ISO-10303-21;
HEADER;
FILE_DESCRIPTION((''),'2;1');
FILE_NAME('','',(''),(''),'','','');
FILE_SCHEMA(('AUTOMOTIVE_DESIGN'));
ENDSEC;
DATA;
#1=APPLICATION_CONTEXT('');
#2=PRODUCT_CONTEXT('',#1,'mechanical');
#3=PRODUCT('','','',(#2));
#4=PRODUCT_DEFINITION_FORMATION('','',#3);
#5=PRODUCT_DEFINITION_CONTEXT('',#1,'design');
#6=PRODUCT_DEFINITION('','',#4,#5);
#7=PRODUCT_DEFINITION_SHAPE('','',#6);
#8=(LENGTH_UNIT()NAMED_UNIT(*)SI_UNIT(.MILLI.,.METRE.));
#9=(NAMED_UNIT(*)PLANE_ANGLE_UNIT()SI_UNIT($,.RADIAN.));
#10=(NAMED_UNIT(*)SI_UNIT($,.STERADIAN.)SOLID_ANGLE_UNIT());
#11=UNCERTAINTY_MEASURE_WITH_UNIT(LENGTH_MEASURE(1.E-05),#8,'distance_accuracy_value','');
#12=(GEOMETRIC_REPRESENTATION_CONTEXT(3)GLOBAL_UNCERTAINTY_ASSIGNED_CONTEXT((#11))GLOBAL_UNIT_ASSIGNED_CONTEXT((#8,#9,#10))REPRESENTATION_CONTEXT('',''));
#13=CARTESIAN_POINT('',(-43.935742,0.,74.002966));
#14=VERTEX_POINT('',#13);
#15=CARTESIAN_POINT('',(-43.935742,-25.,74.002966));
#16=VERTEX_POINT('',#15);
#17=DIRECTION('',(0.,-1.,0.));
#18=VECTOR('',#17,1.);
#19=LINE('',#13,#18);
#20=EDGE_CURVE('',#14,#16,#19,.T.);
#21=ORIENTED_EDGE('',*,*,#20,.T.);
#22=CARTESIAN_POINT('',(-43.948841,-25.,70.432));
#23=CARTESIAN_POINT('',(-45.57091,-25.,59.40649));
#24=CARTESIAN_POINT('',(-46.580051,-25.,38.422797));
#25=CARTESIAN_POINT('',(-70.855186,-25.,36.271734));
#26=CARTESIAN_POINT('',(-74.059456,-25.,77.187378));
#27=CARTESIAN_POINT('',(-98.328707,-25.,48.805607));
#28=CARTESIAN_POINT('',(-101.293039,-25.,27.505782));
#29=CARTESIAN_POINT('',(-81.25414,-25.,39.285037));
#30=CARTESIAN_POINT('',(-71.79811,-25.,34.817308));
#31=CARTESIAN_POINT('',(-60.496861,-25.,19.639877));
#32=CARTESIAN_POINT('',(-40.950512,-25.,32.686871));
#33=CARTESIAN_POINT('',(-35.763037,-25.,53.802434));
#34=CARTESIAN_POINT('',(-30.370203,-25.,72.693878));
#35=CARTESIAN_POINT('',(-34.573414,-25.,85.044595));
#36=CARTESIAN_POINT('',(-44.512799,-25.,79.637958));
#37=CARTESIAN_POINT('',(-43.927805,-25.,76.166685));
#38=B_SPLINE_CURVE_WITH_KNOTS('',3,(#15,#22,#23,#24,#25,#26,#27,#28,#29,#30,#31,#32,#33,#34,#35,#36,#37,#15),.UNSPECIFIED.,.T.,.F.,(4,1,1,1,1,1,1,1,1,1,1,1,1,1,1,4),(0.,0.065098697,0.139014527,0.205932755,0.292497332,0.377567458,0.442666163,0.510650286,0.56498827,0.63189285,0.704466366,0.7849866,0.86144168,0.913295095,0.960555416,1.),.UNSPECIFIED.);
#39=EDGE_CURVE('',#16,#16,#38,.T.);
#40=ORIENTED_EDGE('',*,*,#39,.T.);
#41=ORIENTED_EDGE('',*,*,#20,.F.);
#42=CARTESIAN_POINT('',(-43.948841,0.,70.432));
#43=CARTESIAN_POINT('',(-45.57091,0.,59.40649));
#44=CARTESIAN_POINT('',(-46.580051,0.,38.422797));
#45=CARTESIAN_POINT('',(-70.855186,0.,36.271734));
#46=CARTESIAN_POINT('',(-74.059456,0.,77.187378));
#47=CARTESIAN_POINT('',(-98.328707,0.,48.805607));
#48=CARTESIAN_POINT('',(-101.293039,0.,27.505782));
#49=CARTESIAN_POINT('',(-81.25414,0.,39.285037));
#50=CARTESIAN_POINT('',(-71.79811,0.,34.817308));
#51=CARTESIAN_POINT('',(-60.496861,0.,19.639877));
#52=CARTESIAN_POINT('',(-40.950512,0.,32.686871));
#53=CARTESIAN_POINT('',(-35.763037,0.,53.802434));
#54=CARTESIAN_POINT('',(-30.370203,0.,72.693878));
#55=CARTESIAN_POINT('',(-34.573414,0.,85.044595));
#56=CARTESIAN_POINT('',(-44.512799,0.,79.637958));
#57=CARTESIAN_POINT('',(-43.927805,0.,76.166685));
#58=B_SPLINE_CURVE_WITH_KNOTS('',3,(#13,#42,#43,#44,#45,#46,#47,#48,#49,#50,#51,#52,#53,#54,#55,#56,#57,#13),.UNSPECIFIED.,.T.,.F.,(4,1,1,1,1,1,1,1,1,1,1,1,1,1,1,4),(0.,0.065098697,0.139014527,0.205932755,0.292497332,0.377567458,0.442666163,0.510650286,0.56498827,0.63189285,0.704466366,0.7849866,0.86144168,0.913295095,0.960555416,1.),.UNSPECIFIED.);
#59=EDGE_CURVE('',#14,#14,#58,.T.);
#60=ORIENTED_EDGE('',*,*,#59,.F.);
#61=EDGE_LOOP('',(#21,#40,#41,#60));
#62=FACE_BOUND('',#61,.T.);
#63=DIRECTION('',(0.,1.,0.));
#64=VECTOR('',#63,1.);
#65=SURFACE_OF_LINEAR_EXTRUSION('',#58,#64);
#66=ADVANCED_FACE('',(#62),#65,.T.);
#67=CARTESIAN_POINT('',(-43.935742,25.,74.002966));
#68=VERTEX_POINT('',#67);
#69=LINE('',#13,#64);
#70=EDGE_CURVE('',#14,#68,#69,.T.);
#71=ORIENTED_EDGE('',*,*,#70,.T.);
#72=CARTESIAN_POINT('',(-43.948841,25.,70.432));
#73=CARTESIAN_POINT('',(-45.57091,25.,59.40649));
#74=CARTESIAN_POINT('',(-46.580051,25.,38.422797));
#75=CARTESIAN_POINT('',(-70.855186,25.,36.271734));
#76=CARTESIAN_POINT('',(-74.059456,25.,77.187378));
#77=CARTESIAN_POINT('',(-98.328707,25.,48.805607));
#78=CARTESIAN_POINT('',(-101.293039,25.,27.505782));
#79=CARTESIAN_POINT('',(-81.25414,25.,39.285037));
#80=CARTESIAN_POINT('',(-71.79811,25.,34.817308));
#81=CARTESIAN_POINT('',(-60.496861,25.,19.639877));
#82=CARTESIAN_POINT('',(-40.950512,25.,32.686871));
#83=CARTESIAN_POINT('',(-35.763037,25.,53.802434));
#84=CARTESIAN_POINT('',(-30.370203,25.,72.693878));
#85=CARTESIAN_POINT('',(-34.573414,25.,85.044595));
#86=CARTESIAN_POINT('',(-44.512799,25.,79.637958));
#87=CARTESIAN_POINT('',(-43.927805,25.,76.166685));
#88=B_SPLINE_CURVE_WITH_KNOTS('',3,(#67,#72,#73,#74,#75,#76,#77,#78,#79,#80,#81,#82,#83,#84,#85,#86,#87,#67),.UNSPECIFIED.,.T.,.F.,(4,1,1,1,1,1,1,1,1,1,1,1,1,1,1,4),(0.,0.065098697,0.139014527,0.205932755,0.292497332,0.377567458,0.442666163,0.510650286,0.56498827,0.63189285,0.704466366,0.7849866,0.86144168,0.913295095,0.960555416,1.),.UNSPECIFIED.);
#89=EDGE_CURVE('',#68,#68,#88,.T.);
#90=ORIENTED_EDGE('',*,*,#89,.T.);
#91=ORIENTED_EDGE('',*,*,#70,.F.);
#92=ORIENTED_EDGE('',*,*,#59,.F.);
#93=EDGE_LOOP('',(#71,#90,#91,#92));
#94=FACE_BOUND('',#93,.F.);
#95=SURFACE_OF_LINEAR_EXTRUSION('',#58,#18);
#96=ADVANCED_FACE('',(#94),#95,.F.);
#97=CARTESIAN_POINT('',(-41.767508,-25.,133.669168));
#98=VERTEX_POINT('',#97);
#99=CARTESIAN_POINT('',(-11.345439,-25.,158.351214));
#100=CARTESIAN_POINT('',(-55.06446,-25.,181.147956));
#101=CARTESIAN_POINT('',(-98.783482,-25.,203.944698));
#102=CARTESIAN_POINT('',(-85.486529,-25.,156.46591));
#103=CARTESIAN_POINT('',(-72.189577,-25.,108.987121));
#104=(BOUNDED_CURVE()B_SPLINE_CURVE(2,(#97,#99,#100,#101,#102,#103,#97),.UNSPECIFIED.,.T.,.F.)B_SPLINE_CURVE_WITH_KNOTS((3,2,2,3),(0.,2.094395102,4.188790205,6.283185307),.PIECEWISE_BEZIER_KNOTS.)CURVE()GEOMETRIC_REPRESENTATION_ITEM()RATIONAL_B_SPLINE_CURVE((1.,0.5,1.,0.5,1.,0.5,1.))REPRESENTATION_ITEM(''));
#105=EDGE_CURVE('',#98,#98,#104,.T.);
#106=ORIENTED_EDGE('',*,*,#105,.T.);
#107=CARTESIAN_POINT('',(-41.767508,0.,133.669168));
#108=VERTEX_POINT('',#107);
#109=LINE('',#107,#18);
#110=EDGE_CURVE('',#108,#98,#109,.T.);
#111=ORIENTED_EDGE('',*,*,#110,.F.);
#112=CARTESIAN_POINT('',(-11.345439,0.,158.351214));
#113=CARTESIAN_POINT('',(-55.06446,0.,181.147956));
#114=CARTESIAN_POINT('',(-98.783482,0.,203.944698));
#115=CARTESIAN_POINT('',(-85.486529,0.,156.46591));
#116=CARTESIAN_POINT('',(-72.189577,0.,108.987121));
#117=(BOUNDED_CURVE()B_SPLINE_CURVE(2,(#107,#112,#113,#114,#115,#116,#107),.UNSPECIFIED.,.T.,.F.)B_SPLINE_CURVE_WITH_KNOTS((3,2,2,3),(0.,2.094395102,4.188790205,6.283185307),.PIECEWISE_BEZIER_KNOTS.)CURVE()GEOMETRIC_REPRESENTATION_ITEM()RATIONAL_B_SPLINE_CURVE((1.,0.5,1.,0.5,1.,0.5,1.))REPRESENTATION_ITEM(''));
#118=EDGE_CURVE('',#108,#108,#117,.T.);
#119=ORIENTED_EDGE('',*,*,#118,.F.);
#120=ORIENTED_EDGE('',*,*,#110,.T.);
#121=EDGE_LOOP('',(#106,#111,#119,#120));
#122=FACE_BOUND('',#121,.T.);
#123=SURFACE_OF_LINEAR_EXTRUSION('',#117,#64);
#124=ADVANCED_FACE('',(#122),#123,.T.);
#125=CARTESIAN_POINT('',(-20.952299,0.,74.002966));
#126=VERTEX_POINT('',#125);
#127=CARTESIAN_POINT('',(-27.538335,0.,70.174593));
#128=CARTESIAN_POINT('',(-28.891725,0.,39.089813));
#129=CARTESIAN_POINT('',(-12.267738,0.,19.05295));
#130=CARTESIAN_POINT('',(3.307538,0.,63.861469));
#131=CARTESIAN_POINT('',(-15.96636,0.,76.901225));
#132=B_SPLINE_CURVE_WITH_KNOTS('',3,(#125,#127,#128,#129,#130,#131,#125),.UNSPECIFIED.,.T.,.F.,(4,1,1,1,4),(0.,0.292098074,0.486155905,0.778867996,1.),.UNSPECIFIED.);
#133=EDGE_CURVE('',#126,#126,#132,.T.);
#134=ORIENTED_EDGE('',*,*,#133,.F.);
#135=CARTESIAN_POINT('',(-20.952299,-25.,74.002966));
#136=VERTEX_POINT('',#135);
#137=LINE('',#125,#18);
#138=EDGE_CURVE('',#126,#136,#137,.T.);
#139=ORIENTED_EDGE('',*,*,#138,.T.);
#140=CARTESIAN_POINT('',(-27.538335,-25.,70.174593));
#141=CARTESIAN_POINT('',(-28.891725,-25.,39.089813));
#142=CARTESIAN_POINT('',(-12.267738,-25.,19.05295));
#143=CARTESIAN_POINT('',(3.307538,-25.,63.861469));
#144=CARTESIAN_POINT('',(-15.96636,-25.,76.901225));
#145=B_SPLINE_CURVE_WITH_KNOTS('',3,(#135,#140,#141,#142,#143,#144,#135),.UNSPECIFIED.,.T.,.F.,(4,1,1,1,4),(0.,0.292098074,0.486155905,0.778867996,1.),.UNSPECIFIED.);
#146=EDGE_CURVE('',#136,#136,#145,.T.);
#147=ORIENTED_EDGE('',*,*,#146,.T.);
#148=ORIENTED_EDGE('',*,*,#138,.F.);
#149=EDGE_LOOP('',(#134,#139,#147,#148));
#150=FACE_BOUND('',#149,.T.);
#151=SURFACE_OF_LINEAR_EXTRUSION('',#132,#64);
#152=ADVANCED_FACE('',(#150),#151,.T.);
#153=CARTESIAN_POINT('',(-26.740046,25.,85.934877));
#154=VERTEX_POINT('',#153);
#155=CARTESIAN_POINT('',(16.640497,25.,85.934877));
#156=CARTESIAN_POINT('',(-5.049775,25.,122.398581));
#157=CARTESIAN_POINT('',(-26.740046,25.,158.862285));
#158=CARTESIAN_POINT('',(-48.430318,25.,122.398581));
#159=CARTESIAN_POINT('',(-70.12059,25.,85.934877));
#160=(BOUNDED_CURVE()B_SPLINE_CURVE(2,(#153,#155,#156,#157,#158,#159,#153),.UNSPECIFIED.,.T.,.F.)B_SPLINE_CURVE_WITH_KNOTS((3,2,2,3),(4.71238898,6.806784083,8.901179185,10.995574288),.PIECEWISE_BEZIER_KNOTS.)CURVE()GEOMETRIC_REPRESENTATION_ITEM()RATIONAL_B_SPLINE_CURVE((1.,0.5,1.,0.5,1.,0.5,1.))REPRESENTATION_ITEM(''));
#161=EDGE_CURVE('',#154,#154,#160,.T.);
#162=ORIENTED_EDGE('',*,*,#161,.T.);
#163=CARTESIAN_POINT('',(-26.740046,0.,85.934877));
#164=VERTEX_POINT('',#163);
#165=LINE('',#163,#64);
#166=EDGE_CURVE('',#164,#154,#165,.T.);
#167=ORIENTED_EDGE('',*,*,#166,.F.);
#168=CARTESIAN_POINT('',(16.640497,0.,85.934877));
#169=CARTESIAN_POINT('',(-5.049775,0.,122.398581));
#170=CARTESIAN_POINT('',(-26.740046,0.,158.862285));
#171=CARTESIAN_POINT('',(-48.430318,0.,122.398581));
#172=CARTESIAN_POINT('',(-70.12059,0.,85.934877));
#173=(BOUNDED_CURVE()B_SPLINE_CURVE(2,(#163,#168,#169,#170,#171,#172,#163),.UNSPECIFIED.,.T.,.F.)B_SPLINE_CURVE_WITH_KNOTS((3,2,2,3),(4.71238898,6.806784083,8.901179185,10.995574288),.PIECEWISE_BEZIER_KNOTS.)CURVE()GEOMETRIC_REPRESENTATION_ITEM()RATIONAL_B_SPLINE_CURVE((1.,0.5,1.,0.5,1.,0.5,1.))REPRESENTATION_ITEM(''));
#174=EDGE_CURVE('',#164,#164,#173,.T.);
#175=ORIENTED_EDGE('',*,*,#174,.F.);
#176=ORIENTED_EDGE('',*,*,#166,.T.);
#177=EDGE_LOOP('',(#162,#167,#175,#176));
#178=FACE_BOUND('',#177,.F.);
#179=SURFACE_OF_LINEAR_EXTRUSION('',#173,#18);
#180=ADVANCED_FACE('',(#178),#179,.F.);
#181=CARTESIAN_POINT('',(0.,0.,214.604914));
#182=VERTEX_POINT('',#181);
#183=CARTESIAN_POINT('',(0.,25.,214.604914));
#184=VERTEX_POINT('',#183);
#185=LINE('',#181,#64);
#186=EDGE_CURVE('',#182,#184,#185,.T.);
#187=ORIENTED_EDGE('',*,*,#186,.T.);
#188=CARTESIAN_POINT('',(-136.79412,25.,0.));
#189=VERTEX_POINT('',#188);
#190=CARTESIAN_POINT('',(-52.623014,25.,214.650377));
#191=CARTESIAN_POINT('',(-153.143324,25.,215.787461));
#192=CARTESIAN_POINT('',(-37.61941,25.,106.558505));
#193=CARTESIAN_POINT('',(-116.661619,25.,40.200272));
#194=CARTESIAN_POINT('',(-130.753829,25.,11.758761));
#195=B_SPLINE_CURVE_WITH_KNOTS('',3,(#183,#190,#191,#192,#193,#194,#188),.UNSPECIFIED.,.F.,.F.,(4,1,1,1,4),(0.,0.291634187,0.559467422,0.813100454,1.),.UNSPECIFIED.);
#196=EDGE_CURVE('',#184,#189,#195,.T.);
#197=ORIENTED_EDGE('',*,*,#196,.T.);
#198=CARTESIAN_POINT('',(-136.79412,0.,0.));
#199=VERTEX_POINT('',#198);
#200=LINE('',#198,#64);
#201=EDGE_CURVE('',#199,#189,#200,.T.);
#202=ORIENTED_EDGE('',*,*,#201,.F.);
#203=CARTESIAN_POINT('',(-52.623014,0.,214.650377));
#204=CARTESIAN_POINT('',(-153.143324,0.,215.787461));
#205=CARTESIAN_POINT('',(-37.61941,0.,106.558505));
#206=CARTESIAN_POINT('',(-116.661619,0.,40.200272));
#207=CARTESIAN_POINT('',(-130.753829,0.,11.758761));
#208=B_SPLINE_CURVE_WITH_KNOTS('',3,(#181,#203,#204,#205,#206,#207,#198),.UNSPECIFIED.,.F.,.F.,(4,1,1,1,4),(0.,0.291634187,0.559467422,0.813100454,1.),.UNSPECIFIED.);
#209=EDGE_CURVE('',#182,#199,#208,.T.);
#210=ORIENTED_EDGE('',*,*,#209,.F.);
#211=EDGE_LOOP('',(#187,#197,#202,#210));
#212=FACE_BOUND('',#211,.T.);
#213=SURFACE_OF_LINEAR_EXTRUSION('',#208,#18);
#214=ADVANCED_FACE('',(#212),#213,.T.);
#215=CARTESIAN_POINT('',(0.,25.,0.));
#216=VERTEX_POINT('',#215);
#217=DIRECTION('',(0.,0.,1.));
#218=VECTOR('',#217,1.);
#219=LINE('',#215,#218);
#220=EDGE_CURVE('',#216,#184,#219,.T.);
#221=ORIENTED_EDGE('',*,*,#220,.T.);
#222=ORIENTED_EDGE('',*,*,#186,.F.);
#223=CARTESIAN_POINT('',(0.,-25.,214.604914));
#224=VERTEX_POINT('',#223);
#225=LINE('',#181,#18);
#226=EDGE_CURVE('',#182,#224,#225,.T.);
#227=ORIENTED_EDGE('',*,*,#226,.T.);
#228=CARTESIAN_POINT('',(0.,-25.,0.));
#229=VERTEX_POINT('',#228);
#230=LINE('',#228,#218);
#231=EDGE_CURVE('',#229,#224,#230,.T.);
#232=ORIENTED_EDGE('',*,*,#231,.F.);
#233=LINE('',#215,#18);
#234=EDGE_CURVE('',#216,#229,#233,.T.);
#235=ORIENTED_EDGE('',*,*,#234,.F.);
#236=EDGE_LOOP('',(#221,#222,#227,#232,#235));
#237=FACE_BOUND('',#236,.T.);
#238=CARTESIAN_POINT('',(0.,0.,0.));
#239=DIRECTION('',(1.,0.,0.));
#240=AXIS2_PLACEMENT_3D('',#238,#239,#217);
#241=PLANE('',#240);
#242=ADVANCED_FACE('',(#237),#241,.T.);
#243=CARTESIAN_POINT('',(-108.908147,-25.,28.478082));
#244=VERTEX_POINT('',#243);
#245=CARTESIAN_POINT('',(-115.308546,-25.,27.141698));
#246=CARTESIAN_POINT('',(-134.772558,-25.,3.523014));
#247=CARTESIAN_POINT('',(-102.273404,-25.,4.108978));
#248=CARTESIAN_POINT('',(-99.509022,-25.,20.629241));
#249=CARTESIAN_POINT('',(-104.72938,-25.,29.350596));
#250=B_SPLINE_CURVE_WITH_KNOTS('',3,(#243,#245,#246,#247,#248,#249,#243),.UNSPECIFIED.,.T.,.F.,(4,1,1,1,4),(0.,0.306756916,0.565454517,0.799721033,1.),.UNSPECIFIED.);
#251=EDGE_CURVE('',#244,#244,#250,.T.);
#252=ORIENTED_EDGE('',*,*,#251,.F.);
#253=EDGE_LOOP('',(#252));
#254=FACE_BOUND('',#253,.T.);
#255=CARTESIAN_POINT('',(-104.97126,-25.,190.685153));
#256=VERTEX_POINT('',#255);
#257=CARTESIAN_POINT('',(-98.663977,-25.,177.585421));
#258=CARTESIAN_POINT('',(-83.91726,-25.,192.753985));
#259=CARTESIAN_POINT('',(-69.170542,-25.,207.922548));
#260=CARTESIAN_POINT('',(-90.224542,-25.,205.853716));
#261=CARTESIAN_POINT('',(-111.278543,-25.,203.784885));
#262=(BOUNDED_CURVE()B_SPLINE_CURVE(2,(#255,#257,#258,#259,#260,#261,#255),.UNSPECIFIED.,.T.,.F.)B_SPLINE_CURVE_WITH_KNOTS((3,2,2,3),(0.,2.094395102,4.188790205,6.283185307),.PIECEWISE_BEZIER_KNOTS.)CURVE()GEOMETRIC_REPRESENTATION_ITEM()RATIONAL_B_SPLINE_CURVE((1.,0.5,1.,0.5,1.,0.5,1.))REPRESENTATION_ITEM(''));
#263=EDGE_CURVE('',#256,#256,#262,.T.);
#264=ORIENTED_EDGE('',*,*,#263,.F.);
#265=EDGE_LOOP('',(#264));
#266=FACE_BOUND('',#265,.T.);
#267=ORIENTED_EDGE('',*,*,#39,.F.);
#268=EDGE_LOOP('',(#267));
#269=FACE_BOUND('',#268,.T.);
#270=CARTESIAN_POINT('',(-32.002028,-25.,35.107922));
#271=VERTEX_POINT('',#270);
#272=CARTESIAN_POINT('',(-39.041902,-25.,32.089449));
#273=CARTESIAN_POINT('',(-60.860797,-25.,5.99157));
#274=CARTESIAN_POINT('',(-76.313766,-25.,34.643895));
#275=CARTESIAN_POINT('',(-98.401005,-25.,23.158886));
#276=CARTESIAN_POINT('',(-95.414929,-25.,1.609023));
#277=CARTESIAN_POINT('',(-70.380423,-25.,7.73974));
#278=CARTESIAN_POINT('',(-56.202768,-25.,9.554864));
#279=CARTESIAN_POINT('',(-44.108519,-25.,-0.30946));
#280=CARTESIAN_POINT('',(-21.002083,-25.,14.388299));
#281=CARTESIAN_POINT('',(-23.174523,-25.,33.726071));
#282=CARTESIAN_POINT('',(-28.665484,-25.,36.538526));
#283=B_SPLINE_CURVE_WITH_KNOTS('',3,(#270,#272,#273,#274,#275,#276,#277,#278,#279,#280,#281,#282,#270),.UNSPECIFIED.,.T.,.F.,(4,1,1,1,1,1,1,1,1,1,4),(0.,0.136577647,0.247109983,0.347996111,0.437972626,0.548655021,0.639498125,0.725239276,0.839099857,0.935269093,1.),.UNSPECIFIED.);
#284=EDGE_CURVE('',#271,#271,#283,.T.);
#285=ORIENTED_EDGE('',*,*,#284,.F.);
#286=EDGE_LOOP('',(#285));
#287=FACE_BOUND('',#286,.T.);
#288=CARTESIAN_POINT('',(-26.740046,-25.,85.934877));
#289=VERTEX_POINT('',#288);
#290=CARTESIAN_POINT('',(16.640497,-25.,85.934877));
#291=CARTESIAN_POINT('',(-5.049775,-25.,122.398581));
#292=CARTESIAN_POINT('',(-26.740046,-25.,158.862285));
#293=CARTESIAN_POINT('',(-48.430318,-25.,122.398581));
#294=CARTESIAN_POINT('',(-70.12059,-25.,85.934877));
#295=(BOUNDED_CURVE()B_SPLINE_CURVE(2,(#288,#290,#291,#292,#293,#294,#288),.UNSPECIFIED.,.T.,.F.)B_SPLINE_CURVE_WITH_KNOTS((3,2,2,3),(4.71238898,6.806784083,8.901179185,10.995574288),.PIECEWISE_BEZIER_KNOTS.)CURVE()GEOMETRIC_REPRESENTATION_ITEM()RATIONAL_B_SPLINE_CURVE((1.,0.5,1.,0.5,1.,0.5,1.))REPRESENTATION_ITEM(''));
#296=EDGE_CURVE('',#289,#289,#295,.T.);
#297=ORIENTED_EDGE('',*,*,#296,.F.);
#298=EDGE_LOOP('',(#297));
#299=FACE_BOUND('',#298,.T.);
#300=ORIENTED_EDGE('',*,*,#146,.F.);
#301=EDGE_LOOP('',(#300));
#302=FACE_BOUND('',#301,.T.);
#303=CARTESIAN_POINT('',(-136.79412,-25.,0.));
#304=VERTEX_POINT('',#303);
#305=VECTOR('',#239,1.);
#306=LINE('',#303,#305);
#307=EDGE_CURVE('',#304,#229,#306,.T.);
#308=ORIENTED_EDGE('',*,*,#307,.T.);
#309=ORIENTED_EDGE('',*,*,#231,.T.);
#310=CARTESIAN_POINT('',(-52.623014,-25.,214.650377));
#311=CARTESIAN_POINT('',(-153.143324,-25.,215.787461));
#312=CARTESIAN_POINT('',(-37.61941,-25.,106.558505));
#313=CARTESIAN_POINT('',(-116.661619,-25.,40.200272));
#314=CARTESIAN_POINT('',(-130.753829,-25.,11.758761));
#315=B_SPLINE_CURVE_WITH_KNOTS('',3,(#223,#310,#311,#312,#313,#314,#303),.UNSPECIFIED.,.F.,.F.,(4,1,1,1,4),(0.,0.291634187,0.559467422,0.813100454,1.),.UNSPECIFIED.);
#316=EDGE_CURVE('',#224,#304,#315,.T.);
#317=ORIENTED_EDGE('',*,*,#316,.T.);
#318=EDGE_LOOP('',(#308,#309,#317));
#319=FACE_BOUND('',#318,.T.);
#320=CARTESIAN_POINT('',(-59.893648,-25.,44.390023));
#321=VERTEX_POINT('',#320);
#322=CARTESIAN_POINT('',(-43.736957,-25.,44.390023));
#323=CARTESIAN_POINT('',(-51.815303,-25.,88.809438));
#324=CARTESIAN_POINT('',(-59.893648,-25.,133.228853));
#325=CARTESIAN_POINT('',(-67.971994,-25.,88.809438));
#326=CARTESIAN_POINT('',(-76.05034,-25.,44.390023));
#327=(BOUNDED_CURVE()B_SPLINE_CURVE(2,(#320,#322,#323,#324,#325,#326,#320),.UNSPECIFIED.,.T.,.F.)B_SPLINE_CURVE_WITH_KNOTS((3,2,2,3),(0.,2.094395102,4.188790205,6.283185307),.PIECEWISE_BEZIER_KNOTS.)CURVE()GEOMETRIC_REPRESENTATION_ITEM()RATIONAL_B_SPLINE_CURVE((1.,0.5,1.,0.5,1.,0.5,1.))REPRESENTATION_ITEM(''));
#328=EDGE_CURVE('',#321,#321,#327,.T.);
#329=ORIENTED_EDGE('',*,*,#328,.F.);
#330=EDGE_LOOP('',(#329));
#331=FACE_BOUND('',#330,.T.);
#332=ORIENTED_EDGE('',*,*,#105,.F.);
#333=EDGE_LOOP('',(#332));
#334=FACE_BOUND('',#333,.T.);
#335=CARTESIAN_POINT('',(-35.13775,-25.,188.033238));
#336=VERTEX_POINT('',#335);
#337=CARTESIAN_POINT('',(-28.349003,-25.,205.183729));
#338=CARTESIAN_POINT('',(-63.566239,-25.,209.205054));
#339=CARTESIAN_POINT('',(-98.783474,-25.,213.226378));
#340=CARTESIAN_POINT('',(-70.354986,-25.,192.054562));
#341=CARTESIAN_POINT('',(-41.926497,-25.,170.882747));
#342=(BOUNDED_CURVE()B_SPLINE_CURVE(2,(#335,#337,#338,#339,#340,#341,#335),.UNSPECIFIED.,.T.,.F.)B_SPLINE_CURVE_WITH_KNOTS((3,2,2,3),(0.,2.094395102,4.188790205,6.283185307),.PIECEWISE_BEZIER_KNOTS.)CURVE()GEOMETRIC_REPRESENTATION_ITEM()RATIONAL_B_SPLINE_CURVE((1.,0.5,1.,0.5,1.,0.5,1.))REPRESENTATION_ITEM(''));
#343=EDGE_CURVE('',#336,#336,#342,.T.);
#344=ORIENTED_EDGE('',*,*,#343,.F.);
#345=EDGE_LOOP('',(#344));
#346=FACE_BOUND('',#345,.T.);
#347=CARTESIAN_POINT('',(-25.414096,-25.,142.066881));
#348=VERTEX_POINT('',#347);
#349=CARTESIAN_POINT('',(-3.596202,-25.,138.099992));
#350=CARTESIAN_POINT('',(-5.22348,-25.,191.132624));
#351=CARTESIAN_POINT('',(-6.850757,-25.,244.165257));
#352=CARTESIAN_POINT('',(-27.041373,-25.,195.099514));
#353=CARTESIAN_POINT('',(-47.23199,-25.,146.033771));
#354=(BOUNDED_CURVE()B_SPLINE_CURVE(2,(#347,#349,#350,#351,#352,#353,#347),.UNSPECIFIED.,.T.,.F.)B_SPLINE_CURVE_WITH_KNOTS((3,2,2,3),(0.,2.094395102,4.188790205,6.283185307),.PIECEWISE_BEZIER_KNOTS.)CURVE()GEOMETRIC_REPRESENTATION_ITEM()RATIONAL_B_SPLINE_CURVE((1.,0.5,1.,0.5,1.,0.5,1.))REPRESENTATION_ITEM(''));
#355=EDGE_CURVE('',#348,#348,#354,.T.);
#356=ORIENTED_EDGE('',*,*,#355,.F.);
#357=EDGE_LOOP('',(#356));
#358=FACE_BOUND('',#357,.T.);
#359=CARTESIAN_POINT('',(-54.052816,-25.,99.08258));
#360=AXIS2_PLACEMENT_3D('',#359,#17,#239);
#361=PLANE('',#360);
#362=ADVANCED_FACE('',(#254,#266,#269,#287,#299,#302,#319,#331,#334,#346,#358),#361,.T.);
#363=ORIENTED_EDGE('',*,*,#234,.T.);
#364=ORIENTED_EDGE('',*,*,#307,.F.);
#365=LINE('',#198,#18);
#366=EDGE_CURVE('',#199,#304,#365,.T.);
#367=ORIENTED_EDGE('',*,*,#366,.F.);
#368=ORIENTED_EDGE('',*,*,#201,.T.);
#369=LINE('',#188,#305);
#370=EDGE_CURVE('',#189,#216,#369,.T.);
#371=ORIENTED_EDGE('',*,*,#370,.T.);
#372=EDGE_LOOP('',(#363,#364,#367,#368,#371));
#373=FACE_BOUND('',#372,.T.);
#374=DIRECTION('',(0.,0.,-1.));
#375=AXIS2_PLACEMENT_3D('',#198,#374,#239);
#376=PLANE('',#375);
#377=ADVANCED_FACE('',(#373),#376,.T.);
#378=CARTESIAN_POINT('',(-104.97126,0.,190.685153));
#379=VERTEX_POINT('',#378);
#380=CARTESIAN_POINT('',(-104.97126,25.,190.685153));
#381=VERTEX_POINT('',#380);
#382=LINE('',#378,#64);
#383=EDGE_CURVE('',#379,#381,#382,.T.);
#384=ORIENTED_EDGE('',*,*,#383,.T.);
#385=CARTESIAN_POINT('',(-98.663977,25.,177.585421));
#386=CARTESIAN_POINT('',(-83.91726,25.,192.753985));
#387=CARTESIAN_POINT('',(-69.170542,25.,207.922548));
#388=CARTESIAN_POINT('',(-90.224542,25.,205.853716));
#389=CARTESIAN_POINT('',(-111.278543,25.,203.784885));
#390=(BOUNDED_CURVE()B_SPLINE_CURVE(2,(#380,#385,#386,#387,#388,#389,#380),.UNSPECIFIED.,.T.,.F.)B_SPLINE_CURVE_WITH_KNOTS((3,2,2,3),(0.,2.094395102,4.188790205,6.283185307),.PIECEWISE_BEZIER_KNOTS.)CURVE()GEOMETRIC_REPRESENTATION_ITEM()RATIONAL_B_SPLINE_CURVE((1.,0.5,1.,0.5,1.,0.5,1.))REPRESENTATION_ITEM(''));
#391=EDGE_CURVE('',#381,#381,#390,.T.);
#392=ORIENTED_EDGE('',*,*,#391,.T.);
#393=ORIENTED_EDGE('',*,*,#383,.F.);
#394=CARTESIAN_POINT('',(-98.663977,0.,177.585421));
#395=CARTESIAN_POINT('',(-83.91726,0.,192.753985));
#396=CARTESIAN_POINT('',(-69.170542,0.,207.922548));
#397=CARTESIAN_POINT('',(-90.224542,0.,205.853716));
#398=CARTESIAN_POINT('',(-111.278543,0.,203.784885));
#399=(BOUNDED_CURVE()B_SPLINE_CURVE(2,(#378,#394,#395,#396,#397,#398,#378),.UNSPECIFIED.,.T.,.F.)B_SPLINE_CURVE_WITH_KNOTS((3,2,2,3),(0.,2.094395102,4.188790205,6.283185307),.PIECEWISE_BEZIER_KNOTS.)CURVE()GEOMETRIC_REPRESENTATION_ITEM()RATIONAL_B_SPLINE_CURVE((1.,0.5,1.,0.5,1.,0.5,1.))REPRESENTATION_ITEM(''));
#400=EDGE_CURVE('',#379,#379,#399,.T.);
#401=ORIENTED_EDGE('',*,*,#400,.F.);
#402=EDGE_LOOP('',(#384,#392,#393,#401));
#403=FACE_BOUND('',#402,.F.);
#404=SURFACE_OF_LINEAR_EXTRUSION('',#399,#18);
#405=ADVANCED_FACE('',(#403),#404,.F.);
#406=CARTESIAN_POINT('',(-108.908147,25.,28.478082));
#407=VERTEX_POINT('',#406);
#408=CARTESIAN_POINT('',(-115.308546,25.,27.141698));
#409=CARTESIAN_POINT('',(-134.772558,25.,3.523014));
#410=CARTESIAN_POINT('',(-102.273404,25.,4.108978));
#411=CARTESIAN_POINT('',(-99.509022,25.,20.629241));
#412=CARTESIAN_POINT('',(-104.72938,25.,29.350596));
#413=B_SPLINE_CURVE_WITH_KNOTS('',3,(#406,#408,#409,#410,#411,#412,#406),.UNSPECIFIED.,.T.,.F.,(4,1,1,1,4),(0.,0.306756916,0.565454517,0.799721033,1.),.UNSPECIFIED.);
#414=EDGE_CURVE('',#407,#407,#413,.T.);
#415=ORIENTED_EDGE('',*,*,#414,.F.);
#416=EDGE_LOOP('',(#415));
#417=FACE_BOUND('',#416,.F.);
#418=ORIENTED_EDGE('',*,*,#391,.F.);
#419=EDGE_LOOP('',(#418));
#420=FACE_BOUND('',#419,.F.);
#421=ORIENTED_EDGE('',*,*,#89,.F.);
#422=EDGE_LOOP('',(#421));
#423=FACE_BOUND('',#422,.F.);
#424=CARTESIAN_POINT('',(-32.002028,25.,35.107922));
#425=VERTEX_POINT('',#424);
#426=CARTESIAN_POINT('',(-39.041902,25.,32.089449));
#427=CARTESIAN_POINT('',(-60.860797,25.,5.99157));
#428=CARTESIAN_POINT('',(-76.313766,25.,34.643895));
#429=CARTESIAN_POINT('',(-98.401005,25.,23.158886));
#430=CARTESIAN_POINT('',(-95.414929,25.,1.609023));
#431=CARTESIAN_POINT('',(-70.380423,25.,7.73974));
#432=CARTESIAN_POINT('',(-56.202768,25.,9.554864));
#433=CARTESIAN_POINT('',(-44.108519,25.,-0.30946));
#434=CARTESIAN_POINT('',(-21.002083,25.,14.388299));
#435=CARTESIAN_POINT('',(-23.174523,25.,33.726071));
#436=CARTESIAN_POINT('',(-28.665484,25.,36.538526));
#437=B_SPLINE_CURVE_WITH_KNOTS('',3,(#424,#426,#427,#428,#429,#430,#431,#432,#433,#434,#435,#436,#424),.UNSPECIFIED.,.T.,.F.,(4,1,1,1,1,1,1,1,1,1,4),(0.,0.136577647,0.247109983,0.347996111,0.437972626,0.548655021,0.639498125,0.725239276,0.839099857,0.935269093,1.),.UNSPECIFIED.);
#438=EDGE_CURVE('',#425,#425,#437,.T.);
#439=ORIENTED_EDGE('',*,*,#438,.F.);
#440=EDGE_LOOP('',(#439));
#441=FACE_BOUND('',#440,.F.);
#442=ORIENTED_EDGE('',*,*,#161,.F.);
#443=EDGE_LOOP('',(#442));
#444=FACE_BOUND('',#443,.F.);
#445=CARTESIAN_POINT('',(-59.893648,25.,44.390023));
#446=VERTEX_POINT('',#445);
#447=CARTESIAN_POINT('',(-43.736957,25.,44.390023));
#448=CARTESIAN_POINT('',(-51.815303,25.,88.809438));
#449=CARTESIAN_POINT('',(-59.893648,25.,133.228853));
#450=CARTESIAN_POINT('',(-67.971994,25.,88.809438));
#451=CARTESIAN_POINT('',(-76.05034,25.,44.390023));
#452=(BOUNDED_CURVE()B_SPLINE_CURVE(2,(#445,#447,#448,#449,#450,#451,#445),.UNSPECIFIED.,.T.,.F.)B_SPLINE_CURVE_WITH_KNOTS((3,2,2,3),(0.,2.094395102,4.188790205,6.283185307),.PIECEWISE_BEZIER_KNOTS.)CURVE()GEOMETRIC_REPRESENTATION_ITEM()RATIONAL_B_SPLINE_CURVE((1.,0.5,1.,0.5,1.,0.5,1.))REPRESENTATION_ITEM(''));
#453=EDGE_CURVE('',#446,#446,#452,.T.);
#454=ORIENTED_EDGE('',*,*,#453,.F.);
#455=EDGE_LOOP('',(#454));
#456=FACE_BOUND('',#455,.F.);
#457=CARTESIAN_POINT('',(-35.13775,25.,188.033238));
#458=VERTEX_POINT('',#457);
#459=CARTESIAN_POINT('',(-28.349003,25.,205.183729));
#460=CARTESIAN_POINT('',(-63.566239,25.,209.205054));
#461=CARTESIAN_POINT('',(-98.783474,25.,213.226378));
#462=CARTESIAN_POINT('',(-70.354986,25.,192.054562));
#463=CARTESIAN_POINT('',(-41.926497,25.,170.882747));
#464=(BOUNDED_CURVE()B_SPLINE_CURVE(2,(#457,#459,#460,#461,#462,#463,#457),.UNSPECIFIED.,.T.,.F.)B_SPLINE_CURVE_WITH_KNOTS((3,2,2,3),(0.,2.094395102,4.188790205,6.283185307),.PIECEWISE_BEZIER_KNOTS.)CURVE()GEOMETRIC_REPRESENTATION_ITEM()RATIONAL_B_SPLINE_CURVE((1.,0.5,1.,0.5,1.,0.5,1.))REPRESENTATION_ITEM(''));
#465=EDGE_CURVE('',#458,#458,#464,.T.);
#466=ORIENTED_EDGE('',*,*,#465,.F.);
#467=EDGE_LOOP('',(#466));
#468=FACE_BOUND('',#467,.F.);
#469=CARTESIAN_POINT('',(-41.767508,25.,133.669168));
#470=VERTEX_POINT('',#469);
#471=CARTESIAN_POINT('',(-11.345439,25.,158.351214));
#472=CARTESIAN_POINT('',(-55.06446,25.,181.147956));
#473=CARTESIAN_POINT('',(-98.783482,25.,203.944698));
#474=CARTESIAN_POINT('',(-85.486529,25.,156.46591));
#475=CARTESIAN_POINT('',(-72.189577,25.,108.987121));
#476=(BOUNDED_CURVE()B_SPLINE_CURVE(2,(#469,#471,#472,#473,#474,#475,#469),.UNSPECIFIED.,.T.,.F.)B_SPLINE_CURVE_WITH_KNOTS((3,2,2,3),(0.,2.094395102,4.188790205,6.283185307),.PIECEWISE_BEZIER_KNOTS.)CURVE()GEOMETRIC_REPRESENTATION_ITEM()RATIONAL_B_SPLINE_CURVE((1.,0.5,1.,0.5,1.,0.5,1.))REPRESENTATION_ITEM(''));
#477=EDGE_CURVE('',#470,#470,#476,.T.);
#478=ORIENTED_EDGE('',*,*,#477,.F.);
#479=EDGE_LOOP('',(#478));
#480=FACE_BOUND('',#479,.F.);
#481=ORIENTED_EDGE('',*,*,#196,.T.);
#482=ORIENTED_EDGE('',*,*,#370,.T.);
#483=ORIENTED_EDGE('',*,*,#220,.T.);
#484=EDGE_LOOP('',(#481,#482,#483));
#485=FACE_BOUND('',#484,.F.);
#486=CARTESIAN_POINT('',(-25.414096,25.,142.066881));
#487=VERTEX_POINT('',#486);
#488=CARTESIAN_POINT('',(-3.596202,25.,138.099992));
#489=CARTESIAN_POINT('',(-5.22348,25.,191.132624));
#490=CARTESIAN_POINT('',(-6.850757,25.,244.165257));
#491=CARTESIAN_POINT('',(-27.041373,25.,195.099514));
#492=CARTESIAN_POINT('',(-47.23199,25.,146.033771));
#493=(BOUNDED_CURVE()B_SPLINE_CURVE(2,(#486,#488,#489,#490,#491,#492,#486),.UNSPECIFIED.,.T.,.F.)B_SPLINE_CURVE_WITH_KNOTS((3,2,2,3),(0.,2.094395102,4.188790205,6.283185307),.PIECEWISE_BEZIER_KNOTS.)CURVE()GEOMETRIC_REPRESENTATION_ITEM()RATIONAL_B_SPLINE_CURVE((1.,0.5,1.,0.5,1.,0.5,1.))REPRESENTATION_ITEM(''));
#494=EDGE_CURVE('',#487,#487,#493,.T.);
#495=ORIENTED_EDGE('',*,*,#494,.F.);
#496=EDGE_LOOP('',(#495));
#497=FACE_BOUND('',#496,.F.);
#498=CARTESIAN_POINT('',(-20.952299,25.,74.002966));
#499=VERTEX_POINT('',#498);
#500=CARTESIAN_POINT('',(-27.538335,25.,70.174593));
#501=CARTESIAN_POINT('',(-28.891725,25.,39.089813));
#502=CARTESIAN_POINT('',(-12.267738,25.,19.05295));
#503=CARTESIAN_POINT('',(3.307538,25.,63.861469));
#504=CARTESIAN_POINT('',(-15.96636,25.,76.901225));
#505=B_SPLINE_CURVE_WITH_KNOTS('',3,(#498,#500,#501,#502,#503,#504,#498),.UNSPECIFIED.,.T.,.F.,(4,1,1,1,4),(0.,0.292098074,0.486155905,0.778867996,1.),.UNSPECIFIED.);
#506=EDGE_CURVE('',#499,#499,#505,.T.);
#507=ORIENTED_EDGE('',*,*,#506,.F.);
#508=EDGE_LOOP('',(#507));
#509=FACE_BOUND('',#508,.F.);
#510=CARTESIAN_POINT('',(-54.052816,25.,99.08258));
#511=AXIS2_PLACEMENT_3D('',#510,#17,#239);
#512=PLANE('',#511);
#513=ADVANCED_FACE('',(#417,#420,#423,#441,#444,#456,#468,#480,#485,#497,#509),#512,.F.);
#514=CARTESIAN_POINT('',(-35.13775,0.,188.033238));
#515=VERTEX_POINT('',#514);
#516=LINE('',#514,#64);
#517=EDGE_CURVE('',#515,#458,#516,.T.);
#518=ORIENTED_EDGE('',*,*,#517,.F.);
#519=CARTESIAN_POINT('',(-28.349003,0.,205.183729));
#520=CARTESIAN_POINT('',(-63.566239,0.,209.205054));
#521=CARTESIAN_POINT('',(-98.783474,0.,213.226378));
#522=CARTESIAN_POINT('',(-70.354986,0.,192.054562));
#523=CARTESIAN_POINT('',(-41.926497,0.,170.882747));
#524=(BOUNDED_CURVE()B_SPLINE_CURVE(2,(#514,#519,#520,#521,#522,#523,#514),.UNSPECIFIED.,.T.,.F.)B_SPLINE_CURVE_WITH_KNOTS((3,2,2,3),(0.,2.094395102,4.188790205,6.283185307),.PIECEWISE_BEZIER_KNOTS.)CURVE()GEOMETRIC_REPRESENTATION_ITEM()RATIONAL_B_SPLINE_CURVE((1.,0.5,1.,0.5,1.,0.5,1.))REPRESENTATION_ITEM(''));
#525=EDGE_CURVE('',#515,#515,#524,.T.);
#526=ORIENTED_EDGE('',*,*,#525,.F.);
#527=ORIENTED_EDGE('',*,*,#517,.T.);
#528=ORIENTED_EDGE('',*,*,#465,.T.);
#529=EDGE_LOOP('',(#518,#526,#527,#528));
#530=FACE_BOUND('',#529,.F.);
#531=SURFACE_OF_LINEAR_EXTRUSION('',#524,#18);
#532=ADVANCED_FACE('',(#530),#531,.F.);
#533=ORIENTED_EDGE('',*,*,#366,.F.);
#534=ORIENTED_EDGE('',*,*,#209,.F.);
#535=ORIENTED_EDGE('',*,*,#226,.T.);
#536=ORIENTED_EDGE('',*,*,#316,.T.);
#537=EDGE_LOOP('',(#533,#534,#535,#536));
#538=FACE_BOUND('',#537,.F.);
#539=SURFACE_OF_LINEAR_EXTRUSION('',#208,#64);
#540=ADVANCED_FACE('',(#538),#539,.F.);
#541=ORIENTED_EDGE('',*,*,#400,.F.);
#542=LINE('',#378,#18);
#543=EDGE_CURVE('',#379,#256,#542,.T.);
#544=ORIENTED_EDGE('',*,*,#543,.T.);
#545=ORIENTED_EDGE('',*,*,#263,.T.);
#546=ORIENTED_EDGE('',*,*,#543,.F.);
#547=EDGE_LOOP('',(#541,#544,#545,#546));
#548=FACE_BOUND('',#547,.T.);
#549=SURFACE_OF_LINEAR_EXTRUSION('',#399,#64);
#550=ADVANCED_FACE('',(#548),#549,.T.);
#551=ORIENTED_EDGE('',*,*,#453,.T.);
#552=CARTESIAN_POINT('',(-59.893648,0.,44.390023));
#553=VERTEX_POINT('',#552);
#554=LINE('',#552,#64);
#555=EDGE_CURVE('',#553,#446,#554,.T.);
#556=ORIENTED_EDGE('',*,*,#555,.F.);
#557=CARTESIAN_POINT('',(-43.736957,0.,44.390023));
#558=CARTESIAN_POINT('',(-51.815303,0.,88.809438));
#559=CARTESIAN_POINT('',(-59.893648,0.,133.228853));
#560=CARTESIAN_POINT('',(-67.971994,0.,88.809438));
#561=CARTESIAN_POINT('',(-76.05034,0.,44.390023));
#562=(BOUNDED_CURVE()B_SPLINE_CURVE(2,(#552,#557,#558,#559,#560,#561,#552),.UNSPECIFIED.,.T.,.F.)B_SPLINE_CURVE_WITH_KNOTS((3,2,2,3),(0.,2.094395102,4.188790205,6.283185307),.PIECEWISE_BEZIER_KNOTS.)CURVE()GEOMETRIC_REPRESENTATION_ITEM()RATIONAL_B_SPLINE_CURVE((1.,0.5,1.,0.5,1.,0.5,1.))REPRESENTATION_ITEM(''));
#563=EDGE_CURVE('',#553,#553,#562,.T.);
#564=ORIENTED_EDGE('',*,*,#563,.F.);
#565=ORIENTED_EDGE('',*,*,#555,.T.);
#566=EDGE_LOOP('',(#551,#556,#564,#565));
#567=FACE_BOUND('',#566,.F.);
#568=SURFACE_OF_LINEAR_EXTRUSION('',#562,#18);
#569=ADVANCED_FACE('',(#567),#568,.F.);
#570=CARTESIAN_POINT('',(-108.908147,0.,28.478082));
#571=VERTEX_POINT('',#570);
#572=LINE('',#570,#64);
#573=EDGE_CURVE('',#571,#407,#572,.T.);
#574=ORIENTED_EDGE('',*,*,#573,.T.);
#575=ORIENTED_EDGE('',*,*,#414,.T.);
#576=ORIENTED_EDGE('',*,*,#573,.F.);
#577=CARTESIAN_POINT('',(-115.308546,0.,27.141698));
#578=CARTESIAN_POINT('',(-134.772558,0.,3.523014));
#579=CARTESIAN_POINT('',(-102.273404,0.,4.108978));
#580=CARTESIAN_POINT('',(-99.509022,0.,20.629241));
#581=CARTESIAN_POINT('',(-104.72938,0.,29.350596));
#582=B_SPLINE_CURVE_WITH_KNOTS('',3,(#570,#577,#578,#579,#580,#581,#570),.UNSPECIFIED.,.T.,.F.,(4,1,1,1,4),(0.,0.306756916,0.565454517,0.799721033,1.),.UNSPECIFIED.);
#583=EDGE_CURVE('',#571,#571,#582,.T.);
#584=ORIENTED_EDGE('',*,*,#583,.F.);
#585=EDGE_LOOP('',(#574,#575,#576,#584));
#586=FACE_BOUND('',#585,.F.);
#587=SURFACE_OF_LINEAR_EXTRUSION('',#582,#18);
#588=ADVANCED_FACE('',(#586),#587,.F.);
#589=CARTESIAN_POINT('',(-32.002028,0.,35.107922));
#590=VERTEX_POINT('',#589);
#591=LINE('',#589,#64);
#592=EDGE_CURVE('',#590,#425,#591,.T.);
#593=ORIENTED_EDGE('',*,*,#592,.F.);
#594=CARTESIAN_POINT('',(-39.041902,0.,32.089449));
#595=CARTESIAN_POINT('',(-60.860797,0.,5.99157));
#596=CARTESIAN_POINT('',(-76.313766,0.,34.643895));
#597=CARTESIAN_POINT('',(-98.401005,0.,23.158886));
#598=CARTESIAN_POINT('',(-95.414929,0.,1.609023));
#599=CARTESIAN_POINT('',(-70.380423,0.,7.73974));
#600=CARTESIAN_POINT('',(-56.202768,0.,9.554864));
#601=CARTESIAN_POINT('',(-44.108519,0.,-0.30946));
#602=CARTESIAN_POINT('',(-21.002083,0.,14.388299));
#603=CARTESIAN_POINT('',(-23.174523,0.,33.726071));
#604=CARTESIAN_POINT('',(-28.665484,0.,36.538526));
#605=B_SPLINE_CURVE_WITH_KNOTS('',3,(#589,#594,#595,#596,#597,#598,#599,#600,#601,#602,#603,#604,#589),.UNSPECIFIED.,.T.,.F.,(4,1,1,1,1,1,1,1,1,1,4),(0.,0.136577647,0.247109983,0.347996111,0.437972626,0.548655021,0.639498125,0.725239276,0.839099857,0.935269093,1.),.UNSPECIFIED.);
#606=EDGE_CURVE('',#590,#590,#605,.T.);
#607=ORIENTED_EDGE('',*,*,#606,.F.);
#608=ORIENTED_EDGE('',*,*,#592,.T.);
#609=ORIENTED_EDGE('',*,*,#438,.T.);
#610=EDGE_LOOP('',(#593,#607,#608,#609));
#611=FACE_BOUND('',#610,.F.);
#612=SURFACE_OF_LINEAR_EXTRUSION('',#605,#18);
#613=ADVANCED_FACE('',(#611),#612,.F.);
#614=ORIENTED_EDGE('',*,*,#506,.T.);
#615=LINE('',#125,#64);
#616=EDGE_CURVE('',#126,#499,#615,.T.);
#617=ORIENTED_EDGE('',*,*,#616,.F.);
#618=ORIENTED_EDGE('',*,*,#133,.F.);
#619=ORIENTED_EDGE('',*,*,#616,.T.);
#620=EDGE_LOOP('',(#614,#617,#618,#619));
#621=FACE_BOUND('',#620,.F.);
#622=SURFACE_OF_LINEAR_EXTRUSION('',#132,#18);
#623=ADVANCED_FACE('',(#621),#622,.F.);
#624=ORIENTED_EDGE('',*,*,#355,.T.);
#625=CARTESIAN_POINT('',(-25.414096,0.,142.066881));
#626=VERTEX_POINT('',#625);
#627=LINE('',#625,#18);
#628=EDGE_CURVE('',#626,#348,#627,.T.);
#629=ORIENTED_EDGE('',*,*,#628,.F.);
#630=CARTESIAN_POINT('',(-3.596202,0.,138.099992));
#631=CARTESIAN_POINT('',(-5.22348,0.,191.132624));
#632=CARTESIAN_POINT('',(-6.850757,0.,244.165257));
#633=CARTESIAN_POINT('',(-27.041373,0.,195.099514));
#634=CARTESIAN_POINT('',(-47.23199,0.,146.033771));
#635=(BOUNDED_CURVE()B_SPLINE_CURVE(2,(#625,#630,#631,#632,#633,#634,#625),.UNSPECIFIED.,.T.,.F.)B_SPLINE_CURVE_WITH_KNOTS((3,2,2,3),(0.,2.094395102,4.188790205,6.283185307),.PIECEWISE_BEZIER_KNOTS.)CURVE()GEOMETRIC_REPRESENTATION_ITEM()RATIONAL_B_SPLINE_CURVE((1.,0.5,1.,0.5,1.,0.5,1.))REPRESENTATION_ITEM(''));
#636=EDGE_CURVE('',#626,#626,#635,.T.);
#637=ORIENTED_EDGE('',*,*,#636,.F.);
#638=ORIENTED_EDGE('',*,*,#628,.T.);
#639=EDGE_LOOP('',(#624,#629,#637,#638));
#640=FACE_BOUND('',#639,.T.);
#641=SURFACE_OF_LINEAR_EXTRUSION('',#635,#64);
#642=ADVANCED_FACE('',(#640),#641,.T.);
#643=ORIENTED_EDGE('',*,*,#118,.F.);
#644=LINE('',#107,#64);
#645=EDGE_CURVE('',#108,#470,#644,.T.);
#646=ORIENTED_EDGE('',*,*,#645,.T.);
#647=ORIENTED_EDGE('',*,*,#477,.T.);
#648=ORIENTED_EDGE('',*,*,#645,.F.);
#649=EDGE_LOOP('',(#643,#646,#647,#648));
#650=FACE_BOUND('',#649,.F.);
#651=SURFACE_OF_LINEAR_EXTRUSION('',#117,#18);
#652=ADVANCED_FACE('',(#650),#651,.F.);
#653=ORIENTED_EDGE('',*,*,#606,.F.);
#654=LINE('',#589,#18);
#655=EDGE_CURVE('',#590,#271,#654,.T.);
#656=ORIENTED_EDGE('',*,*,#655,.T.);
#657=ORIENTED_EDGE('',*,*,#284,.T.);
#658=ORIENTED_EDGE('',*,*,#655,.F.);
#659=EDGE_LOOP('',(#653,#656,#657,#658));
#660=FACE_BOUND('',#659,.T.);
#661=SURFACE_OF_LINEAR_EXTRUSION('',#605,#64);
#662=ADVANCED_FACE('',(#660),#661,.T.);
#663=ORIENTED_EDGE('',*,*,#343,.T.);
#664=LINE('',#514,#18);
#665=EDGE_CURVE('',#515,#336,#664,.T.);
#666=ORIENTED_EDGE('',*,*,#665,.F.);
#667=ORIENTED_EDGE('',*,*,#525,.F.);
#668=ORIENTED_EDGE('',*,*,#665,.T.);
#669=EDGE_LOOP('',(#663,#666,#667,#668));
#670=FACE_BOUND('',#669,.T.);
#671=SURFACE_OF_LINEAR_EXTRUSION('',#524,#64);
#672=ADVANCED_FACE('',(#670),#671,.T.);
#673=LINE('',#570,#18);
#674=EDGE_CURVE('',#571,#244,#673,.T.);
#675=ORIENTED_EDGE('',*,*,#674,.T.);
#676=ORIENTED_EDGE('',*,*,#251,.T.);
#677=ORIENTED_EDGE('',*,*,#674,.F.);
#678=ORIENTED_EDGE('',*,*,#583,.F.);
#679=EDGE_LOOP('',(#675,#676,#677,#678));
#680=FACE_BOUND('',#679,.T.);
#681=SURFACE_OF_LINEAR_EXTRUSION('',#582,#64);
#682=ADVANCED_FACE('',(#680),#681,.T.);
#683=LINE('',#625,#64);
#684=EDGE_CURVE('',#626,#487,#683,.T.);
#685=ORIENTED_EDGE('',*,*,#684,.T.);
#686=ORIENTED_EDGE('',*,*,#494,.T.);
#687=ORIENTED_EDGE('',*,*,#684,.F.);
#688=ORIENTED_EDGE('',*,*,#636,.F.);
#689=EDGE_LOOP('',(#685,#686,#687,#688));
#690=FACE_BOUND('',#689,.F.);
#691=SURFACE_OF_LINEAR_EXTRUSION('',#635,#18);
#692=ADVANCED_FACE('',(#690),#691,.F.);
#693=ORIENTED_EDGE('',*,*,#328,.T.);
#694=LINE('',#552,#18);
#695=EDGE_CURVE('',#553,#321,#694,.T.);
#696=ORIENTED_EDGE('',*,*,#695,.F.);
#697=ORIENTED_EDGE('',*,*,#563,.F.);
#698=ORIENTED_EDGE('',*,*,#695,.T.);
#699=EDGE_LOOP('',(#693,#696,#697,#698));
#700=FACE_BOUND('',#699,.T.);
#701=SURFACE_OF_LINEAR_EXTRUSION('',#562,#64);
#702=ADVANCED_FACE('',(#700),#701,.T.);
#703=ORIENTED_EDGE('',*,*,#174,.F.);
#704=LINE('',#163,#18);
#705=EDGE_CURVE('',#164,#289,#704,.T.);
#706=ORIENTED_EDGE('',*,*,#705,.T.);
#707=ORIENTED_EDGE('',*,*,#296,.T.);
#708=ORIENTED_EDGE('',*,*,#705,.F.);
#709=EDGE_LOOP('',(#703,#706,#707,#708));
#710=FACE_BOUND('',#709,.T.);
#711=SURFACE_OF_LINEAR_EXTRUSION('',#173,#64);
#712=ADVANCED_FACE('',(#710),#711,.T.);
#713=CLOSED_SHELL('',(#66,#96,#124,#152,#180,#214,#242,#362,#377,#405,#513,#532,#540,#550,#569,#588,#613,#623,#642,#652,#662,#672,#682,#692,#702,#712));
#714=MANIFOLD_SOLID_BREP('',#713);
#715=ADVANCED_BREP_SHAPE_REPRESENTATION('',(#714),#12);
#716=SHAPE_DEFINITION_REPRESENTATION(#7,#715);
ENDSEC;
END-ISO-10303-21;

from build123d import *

# Parameters (mm, degrees)
F1_DEPTH = 25


with BuildPart() as f1:
    # F0 (on Front) → F1 (new body, symmetric)
    with BuildSketch(Plane.XZ):
        with BuildLine():
            Line((-136.7941200733, 0), (0, 0))
            Line((0, 0), (0, 93.1697487831))
            Line((0, 93.1697487831), (0, 214.6049141884))
            add(Edge.make_bspline(
                [(0, 214.6049141884), (-52.6230138631, 214.650377186), (-153.1433236908, 215.7874612497), (-37.6194103519, 106.5585054532), (-116.6616194996, 40.2002722281), (-130.7538289068, 11.7587614478), (-136.7941200733, 0)],
                knots=[0, 0, 0, 0, 0.2916341869, 0.5594674217, 0.8131004541, 1, 1, 1, 1], degree=3))
        make_face()
        with BuildLine():
            add(Edge.make_bspline(
                [(-108.9081466198, 28.4780822694), (-115.3085464657, 27.1416982134), (-134.7725582926, 3.5230139978), (-102.2734041726, 4.1089776529), (-99.5090221544, 20.6292411426), (-104.729380294, 29.3505959914), (-108.9081466198, 28.4780822694)],
                knots=[0, 0, 0, 0, 0.306756916, 0.5654545173, 0.7997210328, 1, 1, 1, 1], degree=3))
        make_face(mode=Mode.SUBTRACT)
        with BuildLine():
            add(Edge.make_bspline(
                [(-32.0020280778, 35.107921809), (-39.0419016312, 32.0894486993), (-60.8607966621, 5.9915700376), (-76.3137660054, 34.6438951271), (-98.401004559, 23.1588860634), (-95.4149290185, 1.6090226255), (-70.3804226837, 7.7397403126), (-56.2027677267, 9.5548644931), (-44.1085191178, -0.3094600161), (-21.0020829834, 14.3882991495), (-23.1745225035, 33.7260707991), (-28.6654835374, 36.5385256257), (-32.0020280778, 35.107921809)],
                knots=[0, 0, 0, 0, 0.1365776474, 0.247109983, 0.3479961115, 0.4379726256, 0.5486550206, 0.6394981249, 0.7252392763, 0.8390998568, 0.9352690925, 1, 1, 1, 1], degree=3))
        make_face(mode=Mode.SUBTRACT)
        with BuildLine():
            add(Edge.make_bspline(
                [(-43.9357422292, 74.0029662848), (-43.9488408992, 70.4320004544), (-45.5709102182, 59.4064900472), (-46.5800509693, 38.4227971035), (-70.8551864491, 36.271733783), (-74.0594563059, 77.1873776296), (-98.3287067605, 48.8056068707), (-101.2930391974, 27.5057821077), (-81.254140409, 39.2850373228), (-71.7981095063, 34.8173076032), (-60.4968608326, 19.6398771972), (-40.9505115651, 32.6868711616), (-35.763037163, 53.8024343894), (-30.3702033202, 72.6938779543), (-34.5734140863, 85.0445953783), (-44.5127990205, 79.6379584318), (-43.9278054868, 76.1666848921), (-43.9357422292, 74.0029662848)],
                knots=[0, 0, 0, 0, 0.0650986967, 0.1390145273, 0.2059327548, 0.2924973321, 0.3775674579, 0.4426661629, 0.5106502865, 0.5649882702, 0.6318928504, 0.7044663661, 0.7849866, 0.8614416796, 0.9132950954, 0.9605554161, 1, 1, 1, 1], degree=3))
        make_face(mode=Mode.SUBTRACT)
        with BuildLine():
            add(Edge.make_bspline(
                [(-20.9522992373, 74.0029662848), (-27.5383352152, 70.1745931003), (-28.8917254923, 39.0898126471), (-12.2677375099, 19.0529495741), (3.3075384256, 63.8614692071), (-15.9663596988, 76.9012251604), (-20.9522992373, 74.0029662848)],
                knots=[0, 0, 0, 0, 0.2920980737, 0.4861559049, 0.7788679959, 1, 1, 1, 1], degree=3))
        make_face(mode=Mode.SUBTRACT)
        with BuildLine():
            add(Edge.make_bspline(
                [(-59.8936484925, 44.3900227547), (-43.7369565382, 44.3900227547), (-51.8153025153, 88.8094380498), (-59.8936484925, 133.2288533449), (-67.9719944696, 88.8094380498), (-76.0503404468, 44.3900227547), (-59.8936484925, 44.3900227547)],
                knots=[0, 0, 0, 2.0943951024, 2.0943951024, 4.1887902048, 4.1887902048, 6.2831853072, 6.2831853072, 6.2831853072], degree=2, weights=[1, 0.5, 1, 0.5, 1, 0.5, 1]))
        make_face(mode=Mode.SUBTRACT)
        with BuildLine():
            add(Edge.make_bspline(
                [(-104.9712598324, 190.6851530075), (-98.6639771334, 177.5854214542), (-83.9172595974, 192.7539847549), (-69.1705420613, 207.9225480556), (-90.2245422964, 205.8537163082), (-111.2785425314, 203.7848845608), (-104.9712598324, 190.6851530075)],
                knots=[0, 0, 0, 2.0943951024, 2.0943951024, 4.1887902048, 4.1887902048, 6.2831853072, 6.2831853072, 6.2831853072], degree=2, weights=[1, 0.5, 1, 0.5, 1, 0.5, 1]))
        make_face(mode=Mode.SUBTRACT)
        with BuildLine():
            add(Edge.make_bspline(
                [(-41.7675077915, 133.669167757), (-11.3454386094, 158.3512143012), (-55.0644602378, 181.1479561386), (-98.7834818661, 203.9446979761), (-85.4865294199, 156.4659095945), (-72.1895769736, 108.9871212129), (-41.7675077915, 133.669167757)],
                knots=[0, 0, 0, 2.0943951024, 2.0943951024, 4.1887902048, 4.1887902048, 6.2831853072, 6.2831853072, 6.2831853072], degree=2, weights=[1, 0.5, 1, 0.5, 1, 0.5, 1]))
        make_face(mode=Mode.SUBTRACT)
        with BuildLine():
            add(Edge.make_bspline(
                [(-26.740046218, 85.9348773956), (16.6404971086, 85.9348773956), (-5.0497745547, 122.3985813558), (-26.740046218, 158.862285316), (-48.4303178814, 122.3985813558), (-70.1205895447, 85.9348773956), (-26.740046218, 85.9348773956)],
                knots=[4.7123889804, 4.7123889804, 4.7123889804, 6.8067840828, 6.8067840828, 8.9011791852, 8.9011791852, 10.9955742876, 10.9955742876, 10.9955742876], degree=2, weights=[1, 0.5, 1, 0.5, 1, 0.5, 1]))
        make_face(mode=Mode.SUBTRACT)
        with BuildLine():
            add(Edge.make_bspline(
                [(-35.1377502084, 188.0332380533), (-28.3490030829, 205.1837293693), (-63.5662387492, 209.2050536667), (-98.7834744155, 213.226377964), (-70.3549858747, 192.0545623507), (-41.9264973339, 170.8827467373), (-35.1377502084, 188.0332380533)],
                knots=[0, 0, 0, 2.0943951024, 2.0943951024, 4.1887902048, 4.1887902048, 6.2831853072, 6.2831853072, 6.2831853072], degree=2, weights=[1, 0.5, 1, 0.5, 1, 0.5, 1]))
        make_face(mode=Mode.SUBTRACT)
        with BuildLine():
            add(Edge.make_bspline(
                [(-25.4140961915, 142.0668810606), (-3.5962024659, 138.099991618), (-5.2234795853, 191.1326241187), (-6.8507567048, 244.1652566195), (-27.041373311, 195.0995135613), (-47.2319899172, 146.0337705032), (-25.4140961915, 142.0668810606)],
                knots=[0, 0, 0, 2.0943951024, 2.0943951024, 4.1887902048, 4.1887902048, 6.2831853072, 6.2831853072, 6.2831853072], degree=2, weights=[1, 0.5, 1, 0.5, 1, 0.5, 1]))
        make_face(mode=Mode.SUBTRACT)
    extrude(amount=F1_DEPTH, both=True)


solid = f1.part
